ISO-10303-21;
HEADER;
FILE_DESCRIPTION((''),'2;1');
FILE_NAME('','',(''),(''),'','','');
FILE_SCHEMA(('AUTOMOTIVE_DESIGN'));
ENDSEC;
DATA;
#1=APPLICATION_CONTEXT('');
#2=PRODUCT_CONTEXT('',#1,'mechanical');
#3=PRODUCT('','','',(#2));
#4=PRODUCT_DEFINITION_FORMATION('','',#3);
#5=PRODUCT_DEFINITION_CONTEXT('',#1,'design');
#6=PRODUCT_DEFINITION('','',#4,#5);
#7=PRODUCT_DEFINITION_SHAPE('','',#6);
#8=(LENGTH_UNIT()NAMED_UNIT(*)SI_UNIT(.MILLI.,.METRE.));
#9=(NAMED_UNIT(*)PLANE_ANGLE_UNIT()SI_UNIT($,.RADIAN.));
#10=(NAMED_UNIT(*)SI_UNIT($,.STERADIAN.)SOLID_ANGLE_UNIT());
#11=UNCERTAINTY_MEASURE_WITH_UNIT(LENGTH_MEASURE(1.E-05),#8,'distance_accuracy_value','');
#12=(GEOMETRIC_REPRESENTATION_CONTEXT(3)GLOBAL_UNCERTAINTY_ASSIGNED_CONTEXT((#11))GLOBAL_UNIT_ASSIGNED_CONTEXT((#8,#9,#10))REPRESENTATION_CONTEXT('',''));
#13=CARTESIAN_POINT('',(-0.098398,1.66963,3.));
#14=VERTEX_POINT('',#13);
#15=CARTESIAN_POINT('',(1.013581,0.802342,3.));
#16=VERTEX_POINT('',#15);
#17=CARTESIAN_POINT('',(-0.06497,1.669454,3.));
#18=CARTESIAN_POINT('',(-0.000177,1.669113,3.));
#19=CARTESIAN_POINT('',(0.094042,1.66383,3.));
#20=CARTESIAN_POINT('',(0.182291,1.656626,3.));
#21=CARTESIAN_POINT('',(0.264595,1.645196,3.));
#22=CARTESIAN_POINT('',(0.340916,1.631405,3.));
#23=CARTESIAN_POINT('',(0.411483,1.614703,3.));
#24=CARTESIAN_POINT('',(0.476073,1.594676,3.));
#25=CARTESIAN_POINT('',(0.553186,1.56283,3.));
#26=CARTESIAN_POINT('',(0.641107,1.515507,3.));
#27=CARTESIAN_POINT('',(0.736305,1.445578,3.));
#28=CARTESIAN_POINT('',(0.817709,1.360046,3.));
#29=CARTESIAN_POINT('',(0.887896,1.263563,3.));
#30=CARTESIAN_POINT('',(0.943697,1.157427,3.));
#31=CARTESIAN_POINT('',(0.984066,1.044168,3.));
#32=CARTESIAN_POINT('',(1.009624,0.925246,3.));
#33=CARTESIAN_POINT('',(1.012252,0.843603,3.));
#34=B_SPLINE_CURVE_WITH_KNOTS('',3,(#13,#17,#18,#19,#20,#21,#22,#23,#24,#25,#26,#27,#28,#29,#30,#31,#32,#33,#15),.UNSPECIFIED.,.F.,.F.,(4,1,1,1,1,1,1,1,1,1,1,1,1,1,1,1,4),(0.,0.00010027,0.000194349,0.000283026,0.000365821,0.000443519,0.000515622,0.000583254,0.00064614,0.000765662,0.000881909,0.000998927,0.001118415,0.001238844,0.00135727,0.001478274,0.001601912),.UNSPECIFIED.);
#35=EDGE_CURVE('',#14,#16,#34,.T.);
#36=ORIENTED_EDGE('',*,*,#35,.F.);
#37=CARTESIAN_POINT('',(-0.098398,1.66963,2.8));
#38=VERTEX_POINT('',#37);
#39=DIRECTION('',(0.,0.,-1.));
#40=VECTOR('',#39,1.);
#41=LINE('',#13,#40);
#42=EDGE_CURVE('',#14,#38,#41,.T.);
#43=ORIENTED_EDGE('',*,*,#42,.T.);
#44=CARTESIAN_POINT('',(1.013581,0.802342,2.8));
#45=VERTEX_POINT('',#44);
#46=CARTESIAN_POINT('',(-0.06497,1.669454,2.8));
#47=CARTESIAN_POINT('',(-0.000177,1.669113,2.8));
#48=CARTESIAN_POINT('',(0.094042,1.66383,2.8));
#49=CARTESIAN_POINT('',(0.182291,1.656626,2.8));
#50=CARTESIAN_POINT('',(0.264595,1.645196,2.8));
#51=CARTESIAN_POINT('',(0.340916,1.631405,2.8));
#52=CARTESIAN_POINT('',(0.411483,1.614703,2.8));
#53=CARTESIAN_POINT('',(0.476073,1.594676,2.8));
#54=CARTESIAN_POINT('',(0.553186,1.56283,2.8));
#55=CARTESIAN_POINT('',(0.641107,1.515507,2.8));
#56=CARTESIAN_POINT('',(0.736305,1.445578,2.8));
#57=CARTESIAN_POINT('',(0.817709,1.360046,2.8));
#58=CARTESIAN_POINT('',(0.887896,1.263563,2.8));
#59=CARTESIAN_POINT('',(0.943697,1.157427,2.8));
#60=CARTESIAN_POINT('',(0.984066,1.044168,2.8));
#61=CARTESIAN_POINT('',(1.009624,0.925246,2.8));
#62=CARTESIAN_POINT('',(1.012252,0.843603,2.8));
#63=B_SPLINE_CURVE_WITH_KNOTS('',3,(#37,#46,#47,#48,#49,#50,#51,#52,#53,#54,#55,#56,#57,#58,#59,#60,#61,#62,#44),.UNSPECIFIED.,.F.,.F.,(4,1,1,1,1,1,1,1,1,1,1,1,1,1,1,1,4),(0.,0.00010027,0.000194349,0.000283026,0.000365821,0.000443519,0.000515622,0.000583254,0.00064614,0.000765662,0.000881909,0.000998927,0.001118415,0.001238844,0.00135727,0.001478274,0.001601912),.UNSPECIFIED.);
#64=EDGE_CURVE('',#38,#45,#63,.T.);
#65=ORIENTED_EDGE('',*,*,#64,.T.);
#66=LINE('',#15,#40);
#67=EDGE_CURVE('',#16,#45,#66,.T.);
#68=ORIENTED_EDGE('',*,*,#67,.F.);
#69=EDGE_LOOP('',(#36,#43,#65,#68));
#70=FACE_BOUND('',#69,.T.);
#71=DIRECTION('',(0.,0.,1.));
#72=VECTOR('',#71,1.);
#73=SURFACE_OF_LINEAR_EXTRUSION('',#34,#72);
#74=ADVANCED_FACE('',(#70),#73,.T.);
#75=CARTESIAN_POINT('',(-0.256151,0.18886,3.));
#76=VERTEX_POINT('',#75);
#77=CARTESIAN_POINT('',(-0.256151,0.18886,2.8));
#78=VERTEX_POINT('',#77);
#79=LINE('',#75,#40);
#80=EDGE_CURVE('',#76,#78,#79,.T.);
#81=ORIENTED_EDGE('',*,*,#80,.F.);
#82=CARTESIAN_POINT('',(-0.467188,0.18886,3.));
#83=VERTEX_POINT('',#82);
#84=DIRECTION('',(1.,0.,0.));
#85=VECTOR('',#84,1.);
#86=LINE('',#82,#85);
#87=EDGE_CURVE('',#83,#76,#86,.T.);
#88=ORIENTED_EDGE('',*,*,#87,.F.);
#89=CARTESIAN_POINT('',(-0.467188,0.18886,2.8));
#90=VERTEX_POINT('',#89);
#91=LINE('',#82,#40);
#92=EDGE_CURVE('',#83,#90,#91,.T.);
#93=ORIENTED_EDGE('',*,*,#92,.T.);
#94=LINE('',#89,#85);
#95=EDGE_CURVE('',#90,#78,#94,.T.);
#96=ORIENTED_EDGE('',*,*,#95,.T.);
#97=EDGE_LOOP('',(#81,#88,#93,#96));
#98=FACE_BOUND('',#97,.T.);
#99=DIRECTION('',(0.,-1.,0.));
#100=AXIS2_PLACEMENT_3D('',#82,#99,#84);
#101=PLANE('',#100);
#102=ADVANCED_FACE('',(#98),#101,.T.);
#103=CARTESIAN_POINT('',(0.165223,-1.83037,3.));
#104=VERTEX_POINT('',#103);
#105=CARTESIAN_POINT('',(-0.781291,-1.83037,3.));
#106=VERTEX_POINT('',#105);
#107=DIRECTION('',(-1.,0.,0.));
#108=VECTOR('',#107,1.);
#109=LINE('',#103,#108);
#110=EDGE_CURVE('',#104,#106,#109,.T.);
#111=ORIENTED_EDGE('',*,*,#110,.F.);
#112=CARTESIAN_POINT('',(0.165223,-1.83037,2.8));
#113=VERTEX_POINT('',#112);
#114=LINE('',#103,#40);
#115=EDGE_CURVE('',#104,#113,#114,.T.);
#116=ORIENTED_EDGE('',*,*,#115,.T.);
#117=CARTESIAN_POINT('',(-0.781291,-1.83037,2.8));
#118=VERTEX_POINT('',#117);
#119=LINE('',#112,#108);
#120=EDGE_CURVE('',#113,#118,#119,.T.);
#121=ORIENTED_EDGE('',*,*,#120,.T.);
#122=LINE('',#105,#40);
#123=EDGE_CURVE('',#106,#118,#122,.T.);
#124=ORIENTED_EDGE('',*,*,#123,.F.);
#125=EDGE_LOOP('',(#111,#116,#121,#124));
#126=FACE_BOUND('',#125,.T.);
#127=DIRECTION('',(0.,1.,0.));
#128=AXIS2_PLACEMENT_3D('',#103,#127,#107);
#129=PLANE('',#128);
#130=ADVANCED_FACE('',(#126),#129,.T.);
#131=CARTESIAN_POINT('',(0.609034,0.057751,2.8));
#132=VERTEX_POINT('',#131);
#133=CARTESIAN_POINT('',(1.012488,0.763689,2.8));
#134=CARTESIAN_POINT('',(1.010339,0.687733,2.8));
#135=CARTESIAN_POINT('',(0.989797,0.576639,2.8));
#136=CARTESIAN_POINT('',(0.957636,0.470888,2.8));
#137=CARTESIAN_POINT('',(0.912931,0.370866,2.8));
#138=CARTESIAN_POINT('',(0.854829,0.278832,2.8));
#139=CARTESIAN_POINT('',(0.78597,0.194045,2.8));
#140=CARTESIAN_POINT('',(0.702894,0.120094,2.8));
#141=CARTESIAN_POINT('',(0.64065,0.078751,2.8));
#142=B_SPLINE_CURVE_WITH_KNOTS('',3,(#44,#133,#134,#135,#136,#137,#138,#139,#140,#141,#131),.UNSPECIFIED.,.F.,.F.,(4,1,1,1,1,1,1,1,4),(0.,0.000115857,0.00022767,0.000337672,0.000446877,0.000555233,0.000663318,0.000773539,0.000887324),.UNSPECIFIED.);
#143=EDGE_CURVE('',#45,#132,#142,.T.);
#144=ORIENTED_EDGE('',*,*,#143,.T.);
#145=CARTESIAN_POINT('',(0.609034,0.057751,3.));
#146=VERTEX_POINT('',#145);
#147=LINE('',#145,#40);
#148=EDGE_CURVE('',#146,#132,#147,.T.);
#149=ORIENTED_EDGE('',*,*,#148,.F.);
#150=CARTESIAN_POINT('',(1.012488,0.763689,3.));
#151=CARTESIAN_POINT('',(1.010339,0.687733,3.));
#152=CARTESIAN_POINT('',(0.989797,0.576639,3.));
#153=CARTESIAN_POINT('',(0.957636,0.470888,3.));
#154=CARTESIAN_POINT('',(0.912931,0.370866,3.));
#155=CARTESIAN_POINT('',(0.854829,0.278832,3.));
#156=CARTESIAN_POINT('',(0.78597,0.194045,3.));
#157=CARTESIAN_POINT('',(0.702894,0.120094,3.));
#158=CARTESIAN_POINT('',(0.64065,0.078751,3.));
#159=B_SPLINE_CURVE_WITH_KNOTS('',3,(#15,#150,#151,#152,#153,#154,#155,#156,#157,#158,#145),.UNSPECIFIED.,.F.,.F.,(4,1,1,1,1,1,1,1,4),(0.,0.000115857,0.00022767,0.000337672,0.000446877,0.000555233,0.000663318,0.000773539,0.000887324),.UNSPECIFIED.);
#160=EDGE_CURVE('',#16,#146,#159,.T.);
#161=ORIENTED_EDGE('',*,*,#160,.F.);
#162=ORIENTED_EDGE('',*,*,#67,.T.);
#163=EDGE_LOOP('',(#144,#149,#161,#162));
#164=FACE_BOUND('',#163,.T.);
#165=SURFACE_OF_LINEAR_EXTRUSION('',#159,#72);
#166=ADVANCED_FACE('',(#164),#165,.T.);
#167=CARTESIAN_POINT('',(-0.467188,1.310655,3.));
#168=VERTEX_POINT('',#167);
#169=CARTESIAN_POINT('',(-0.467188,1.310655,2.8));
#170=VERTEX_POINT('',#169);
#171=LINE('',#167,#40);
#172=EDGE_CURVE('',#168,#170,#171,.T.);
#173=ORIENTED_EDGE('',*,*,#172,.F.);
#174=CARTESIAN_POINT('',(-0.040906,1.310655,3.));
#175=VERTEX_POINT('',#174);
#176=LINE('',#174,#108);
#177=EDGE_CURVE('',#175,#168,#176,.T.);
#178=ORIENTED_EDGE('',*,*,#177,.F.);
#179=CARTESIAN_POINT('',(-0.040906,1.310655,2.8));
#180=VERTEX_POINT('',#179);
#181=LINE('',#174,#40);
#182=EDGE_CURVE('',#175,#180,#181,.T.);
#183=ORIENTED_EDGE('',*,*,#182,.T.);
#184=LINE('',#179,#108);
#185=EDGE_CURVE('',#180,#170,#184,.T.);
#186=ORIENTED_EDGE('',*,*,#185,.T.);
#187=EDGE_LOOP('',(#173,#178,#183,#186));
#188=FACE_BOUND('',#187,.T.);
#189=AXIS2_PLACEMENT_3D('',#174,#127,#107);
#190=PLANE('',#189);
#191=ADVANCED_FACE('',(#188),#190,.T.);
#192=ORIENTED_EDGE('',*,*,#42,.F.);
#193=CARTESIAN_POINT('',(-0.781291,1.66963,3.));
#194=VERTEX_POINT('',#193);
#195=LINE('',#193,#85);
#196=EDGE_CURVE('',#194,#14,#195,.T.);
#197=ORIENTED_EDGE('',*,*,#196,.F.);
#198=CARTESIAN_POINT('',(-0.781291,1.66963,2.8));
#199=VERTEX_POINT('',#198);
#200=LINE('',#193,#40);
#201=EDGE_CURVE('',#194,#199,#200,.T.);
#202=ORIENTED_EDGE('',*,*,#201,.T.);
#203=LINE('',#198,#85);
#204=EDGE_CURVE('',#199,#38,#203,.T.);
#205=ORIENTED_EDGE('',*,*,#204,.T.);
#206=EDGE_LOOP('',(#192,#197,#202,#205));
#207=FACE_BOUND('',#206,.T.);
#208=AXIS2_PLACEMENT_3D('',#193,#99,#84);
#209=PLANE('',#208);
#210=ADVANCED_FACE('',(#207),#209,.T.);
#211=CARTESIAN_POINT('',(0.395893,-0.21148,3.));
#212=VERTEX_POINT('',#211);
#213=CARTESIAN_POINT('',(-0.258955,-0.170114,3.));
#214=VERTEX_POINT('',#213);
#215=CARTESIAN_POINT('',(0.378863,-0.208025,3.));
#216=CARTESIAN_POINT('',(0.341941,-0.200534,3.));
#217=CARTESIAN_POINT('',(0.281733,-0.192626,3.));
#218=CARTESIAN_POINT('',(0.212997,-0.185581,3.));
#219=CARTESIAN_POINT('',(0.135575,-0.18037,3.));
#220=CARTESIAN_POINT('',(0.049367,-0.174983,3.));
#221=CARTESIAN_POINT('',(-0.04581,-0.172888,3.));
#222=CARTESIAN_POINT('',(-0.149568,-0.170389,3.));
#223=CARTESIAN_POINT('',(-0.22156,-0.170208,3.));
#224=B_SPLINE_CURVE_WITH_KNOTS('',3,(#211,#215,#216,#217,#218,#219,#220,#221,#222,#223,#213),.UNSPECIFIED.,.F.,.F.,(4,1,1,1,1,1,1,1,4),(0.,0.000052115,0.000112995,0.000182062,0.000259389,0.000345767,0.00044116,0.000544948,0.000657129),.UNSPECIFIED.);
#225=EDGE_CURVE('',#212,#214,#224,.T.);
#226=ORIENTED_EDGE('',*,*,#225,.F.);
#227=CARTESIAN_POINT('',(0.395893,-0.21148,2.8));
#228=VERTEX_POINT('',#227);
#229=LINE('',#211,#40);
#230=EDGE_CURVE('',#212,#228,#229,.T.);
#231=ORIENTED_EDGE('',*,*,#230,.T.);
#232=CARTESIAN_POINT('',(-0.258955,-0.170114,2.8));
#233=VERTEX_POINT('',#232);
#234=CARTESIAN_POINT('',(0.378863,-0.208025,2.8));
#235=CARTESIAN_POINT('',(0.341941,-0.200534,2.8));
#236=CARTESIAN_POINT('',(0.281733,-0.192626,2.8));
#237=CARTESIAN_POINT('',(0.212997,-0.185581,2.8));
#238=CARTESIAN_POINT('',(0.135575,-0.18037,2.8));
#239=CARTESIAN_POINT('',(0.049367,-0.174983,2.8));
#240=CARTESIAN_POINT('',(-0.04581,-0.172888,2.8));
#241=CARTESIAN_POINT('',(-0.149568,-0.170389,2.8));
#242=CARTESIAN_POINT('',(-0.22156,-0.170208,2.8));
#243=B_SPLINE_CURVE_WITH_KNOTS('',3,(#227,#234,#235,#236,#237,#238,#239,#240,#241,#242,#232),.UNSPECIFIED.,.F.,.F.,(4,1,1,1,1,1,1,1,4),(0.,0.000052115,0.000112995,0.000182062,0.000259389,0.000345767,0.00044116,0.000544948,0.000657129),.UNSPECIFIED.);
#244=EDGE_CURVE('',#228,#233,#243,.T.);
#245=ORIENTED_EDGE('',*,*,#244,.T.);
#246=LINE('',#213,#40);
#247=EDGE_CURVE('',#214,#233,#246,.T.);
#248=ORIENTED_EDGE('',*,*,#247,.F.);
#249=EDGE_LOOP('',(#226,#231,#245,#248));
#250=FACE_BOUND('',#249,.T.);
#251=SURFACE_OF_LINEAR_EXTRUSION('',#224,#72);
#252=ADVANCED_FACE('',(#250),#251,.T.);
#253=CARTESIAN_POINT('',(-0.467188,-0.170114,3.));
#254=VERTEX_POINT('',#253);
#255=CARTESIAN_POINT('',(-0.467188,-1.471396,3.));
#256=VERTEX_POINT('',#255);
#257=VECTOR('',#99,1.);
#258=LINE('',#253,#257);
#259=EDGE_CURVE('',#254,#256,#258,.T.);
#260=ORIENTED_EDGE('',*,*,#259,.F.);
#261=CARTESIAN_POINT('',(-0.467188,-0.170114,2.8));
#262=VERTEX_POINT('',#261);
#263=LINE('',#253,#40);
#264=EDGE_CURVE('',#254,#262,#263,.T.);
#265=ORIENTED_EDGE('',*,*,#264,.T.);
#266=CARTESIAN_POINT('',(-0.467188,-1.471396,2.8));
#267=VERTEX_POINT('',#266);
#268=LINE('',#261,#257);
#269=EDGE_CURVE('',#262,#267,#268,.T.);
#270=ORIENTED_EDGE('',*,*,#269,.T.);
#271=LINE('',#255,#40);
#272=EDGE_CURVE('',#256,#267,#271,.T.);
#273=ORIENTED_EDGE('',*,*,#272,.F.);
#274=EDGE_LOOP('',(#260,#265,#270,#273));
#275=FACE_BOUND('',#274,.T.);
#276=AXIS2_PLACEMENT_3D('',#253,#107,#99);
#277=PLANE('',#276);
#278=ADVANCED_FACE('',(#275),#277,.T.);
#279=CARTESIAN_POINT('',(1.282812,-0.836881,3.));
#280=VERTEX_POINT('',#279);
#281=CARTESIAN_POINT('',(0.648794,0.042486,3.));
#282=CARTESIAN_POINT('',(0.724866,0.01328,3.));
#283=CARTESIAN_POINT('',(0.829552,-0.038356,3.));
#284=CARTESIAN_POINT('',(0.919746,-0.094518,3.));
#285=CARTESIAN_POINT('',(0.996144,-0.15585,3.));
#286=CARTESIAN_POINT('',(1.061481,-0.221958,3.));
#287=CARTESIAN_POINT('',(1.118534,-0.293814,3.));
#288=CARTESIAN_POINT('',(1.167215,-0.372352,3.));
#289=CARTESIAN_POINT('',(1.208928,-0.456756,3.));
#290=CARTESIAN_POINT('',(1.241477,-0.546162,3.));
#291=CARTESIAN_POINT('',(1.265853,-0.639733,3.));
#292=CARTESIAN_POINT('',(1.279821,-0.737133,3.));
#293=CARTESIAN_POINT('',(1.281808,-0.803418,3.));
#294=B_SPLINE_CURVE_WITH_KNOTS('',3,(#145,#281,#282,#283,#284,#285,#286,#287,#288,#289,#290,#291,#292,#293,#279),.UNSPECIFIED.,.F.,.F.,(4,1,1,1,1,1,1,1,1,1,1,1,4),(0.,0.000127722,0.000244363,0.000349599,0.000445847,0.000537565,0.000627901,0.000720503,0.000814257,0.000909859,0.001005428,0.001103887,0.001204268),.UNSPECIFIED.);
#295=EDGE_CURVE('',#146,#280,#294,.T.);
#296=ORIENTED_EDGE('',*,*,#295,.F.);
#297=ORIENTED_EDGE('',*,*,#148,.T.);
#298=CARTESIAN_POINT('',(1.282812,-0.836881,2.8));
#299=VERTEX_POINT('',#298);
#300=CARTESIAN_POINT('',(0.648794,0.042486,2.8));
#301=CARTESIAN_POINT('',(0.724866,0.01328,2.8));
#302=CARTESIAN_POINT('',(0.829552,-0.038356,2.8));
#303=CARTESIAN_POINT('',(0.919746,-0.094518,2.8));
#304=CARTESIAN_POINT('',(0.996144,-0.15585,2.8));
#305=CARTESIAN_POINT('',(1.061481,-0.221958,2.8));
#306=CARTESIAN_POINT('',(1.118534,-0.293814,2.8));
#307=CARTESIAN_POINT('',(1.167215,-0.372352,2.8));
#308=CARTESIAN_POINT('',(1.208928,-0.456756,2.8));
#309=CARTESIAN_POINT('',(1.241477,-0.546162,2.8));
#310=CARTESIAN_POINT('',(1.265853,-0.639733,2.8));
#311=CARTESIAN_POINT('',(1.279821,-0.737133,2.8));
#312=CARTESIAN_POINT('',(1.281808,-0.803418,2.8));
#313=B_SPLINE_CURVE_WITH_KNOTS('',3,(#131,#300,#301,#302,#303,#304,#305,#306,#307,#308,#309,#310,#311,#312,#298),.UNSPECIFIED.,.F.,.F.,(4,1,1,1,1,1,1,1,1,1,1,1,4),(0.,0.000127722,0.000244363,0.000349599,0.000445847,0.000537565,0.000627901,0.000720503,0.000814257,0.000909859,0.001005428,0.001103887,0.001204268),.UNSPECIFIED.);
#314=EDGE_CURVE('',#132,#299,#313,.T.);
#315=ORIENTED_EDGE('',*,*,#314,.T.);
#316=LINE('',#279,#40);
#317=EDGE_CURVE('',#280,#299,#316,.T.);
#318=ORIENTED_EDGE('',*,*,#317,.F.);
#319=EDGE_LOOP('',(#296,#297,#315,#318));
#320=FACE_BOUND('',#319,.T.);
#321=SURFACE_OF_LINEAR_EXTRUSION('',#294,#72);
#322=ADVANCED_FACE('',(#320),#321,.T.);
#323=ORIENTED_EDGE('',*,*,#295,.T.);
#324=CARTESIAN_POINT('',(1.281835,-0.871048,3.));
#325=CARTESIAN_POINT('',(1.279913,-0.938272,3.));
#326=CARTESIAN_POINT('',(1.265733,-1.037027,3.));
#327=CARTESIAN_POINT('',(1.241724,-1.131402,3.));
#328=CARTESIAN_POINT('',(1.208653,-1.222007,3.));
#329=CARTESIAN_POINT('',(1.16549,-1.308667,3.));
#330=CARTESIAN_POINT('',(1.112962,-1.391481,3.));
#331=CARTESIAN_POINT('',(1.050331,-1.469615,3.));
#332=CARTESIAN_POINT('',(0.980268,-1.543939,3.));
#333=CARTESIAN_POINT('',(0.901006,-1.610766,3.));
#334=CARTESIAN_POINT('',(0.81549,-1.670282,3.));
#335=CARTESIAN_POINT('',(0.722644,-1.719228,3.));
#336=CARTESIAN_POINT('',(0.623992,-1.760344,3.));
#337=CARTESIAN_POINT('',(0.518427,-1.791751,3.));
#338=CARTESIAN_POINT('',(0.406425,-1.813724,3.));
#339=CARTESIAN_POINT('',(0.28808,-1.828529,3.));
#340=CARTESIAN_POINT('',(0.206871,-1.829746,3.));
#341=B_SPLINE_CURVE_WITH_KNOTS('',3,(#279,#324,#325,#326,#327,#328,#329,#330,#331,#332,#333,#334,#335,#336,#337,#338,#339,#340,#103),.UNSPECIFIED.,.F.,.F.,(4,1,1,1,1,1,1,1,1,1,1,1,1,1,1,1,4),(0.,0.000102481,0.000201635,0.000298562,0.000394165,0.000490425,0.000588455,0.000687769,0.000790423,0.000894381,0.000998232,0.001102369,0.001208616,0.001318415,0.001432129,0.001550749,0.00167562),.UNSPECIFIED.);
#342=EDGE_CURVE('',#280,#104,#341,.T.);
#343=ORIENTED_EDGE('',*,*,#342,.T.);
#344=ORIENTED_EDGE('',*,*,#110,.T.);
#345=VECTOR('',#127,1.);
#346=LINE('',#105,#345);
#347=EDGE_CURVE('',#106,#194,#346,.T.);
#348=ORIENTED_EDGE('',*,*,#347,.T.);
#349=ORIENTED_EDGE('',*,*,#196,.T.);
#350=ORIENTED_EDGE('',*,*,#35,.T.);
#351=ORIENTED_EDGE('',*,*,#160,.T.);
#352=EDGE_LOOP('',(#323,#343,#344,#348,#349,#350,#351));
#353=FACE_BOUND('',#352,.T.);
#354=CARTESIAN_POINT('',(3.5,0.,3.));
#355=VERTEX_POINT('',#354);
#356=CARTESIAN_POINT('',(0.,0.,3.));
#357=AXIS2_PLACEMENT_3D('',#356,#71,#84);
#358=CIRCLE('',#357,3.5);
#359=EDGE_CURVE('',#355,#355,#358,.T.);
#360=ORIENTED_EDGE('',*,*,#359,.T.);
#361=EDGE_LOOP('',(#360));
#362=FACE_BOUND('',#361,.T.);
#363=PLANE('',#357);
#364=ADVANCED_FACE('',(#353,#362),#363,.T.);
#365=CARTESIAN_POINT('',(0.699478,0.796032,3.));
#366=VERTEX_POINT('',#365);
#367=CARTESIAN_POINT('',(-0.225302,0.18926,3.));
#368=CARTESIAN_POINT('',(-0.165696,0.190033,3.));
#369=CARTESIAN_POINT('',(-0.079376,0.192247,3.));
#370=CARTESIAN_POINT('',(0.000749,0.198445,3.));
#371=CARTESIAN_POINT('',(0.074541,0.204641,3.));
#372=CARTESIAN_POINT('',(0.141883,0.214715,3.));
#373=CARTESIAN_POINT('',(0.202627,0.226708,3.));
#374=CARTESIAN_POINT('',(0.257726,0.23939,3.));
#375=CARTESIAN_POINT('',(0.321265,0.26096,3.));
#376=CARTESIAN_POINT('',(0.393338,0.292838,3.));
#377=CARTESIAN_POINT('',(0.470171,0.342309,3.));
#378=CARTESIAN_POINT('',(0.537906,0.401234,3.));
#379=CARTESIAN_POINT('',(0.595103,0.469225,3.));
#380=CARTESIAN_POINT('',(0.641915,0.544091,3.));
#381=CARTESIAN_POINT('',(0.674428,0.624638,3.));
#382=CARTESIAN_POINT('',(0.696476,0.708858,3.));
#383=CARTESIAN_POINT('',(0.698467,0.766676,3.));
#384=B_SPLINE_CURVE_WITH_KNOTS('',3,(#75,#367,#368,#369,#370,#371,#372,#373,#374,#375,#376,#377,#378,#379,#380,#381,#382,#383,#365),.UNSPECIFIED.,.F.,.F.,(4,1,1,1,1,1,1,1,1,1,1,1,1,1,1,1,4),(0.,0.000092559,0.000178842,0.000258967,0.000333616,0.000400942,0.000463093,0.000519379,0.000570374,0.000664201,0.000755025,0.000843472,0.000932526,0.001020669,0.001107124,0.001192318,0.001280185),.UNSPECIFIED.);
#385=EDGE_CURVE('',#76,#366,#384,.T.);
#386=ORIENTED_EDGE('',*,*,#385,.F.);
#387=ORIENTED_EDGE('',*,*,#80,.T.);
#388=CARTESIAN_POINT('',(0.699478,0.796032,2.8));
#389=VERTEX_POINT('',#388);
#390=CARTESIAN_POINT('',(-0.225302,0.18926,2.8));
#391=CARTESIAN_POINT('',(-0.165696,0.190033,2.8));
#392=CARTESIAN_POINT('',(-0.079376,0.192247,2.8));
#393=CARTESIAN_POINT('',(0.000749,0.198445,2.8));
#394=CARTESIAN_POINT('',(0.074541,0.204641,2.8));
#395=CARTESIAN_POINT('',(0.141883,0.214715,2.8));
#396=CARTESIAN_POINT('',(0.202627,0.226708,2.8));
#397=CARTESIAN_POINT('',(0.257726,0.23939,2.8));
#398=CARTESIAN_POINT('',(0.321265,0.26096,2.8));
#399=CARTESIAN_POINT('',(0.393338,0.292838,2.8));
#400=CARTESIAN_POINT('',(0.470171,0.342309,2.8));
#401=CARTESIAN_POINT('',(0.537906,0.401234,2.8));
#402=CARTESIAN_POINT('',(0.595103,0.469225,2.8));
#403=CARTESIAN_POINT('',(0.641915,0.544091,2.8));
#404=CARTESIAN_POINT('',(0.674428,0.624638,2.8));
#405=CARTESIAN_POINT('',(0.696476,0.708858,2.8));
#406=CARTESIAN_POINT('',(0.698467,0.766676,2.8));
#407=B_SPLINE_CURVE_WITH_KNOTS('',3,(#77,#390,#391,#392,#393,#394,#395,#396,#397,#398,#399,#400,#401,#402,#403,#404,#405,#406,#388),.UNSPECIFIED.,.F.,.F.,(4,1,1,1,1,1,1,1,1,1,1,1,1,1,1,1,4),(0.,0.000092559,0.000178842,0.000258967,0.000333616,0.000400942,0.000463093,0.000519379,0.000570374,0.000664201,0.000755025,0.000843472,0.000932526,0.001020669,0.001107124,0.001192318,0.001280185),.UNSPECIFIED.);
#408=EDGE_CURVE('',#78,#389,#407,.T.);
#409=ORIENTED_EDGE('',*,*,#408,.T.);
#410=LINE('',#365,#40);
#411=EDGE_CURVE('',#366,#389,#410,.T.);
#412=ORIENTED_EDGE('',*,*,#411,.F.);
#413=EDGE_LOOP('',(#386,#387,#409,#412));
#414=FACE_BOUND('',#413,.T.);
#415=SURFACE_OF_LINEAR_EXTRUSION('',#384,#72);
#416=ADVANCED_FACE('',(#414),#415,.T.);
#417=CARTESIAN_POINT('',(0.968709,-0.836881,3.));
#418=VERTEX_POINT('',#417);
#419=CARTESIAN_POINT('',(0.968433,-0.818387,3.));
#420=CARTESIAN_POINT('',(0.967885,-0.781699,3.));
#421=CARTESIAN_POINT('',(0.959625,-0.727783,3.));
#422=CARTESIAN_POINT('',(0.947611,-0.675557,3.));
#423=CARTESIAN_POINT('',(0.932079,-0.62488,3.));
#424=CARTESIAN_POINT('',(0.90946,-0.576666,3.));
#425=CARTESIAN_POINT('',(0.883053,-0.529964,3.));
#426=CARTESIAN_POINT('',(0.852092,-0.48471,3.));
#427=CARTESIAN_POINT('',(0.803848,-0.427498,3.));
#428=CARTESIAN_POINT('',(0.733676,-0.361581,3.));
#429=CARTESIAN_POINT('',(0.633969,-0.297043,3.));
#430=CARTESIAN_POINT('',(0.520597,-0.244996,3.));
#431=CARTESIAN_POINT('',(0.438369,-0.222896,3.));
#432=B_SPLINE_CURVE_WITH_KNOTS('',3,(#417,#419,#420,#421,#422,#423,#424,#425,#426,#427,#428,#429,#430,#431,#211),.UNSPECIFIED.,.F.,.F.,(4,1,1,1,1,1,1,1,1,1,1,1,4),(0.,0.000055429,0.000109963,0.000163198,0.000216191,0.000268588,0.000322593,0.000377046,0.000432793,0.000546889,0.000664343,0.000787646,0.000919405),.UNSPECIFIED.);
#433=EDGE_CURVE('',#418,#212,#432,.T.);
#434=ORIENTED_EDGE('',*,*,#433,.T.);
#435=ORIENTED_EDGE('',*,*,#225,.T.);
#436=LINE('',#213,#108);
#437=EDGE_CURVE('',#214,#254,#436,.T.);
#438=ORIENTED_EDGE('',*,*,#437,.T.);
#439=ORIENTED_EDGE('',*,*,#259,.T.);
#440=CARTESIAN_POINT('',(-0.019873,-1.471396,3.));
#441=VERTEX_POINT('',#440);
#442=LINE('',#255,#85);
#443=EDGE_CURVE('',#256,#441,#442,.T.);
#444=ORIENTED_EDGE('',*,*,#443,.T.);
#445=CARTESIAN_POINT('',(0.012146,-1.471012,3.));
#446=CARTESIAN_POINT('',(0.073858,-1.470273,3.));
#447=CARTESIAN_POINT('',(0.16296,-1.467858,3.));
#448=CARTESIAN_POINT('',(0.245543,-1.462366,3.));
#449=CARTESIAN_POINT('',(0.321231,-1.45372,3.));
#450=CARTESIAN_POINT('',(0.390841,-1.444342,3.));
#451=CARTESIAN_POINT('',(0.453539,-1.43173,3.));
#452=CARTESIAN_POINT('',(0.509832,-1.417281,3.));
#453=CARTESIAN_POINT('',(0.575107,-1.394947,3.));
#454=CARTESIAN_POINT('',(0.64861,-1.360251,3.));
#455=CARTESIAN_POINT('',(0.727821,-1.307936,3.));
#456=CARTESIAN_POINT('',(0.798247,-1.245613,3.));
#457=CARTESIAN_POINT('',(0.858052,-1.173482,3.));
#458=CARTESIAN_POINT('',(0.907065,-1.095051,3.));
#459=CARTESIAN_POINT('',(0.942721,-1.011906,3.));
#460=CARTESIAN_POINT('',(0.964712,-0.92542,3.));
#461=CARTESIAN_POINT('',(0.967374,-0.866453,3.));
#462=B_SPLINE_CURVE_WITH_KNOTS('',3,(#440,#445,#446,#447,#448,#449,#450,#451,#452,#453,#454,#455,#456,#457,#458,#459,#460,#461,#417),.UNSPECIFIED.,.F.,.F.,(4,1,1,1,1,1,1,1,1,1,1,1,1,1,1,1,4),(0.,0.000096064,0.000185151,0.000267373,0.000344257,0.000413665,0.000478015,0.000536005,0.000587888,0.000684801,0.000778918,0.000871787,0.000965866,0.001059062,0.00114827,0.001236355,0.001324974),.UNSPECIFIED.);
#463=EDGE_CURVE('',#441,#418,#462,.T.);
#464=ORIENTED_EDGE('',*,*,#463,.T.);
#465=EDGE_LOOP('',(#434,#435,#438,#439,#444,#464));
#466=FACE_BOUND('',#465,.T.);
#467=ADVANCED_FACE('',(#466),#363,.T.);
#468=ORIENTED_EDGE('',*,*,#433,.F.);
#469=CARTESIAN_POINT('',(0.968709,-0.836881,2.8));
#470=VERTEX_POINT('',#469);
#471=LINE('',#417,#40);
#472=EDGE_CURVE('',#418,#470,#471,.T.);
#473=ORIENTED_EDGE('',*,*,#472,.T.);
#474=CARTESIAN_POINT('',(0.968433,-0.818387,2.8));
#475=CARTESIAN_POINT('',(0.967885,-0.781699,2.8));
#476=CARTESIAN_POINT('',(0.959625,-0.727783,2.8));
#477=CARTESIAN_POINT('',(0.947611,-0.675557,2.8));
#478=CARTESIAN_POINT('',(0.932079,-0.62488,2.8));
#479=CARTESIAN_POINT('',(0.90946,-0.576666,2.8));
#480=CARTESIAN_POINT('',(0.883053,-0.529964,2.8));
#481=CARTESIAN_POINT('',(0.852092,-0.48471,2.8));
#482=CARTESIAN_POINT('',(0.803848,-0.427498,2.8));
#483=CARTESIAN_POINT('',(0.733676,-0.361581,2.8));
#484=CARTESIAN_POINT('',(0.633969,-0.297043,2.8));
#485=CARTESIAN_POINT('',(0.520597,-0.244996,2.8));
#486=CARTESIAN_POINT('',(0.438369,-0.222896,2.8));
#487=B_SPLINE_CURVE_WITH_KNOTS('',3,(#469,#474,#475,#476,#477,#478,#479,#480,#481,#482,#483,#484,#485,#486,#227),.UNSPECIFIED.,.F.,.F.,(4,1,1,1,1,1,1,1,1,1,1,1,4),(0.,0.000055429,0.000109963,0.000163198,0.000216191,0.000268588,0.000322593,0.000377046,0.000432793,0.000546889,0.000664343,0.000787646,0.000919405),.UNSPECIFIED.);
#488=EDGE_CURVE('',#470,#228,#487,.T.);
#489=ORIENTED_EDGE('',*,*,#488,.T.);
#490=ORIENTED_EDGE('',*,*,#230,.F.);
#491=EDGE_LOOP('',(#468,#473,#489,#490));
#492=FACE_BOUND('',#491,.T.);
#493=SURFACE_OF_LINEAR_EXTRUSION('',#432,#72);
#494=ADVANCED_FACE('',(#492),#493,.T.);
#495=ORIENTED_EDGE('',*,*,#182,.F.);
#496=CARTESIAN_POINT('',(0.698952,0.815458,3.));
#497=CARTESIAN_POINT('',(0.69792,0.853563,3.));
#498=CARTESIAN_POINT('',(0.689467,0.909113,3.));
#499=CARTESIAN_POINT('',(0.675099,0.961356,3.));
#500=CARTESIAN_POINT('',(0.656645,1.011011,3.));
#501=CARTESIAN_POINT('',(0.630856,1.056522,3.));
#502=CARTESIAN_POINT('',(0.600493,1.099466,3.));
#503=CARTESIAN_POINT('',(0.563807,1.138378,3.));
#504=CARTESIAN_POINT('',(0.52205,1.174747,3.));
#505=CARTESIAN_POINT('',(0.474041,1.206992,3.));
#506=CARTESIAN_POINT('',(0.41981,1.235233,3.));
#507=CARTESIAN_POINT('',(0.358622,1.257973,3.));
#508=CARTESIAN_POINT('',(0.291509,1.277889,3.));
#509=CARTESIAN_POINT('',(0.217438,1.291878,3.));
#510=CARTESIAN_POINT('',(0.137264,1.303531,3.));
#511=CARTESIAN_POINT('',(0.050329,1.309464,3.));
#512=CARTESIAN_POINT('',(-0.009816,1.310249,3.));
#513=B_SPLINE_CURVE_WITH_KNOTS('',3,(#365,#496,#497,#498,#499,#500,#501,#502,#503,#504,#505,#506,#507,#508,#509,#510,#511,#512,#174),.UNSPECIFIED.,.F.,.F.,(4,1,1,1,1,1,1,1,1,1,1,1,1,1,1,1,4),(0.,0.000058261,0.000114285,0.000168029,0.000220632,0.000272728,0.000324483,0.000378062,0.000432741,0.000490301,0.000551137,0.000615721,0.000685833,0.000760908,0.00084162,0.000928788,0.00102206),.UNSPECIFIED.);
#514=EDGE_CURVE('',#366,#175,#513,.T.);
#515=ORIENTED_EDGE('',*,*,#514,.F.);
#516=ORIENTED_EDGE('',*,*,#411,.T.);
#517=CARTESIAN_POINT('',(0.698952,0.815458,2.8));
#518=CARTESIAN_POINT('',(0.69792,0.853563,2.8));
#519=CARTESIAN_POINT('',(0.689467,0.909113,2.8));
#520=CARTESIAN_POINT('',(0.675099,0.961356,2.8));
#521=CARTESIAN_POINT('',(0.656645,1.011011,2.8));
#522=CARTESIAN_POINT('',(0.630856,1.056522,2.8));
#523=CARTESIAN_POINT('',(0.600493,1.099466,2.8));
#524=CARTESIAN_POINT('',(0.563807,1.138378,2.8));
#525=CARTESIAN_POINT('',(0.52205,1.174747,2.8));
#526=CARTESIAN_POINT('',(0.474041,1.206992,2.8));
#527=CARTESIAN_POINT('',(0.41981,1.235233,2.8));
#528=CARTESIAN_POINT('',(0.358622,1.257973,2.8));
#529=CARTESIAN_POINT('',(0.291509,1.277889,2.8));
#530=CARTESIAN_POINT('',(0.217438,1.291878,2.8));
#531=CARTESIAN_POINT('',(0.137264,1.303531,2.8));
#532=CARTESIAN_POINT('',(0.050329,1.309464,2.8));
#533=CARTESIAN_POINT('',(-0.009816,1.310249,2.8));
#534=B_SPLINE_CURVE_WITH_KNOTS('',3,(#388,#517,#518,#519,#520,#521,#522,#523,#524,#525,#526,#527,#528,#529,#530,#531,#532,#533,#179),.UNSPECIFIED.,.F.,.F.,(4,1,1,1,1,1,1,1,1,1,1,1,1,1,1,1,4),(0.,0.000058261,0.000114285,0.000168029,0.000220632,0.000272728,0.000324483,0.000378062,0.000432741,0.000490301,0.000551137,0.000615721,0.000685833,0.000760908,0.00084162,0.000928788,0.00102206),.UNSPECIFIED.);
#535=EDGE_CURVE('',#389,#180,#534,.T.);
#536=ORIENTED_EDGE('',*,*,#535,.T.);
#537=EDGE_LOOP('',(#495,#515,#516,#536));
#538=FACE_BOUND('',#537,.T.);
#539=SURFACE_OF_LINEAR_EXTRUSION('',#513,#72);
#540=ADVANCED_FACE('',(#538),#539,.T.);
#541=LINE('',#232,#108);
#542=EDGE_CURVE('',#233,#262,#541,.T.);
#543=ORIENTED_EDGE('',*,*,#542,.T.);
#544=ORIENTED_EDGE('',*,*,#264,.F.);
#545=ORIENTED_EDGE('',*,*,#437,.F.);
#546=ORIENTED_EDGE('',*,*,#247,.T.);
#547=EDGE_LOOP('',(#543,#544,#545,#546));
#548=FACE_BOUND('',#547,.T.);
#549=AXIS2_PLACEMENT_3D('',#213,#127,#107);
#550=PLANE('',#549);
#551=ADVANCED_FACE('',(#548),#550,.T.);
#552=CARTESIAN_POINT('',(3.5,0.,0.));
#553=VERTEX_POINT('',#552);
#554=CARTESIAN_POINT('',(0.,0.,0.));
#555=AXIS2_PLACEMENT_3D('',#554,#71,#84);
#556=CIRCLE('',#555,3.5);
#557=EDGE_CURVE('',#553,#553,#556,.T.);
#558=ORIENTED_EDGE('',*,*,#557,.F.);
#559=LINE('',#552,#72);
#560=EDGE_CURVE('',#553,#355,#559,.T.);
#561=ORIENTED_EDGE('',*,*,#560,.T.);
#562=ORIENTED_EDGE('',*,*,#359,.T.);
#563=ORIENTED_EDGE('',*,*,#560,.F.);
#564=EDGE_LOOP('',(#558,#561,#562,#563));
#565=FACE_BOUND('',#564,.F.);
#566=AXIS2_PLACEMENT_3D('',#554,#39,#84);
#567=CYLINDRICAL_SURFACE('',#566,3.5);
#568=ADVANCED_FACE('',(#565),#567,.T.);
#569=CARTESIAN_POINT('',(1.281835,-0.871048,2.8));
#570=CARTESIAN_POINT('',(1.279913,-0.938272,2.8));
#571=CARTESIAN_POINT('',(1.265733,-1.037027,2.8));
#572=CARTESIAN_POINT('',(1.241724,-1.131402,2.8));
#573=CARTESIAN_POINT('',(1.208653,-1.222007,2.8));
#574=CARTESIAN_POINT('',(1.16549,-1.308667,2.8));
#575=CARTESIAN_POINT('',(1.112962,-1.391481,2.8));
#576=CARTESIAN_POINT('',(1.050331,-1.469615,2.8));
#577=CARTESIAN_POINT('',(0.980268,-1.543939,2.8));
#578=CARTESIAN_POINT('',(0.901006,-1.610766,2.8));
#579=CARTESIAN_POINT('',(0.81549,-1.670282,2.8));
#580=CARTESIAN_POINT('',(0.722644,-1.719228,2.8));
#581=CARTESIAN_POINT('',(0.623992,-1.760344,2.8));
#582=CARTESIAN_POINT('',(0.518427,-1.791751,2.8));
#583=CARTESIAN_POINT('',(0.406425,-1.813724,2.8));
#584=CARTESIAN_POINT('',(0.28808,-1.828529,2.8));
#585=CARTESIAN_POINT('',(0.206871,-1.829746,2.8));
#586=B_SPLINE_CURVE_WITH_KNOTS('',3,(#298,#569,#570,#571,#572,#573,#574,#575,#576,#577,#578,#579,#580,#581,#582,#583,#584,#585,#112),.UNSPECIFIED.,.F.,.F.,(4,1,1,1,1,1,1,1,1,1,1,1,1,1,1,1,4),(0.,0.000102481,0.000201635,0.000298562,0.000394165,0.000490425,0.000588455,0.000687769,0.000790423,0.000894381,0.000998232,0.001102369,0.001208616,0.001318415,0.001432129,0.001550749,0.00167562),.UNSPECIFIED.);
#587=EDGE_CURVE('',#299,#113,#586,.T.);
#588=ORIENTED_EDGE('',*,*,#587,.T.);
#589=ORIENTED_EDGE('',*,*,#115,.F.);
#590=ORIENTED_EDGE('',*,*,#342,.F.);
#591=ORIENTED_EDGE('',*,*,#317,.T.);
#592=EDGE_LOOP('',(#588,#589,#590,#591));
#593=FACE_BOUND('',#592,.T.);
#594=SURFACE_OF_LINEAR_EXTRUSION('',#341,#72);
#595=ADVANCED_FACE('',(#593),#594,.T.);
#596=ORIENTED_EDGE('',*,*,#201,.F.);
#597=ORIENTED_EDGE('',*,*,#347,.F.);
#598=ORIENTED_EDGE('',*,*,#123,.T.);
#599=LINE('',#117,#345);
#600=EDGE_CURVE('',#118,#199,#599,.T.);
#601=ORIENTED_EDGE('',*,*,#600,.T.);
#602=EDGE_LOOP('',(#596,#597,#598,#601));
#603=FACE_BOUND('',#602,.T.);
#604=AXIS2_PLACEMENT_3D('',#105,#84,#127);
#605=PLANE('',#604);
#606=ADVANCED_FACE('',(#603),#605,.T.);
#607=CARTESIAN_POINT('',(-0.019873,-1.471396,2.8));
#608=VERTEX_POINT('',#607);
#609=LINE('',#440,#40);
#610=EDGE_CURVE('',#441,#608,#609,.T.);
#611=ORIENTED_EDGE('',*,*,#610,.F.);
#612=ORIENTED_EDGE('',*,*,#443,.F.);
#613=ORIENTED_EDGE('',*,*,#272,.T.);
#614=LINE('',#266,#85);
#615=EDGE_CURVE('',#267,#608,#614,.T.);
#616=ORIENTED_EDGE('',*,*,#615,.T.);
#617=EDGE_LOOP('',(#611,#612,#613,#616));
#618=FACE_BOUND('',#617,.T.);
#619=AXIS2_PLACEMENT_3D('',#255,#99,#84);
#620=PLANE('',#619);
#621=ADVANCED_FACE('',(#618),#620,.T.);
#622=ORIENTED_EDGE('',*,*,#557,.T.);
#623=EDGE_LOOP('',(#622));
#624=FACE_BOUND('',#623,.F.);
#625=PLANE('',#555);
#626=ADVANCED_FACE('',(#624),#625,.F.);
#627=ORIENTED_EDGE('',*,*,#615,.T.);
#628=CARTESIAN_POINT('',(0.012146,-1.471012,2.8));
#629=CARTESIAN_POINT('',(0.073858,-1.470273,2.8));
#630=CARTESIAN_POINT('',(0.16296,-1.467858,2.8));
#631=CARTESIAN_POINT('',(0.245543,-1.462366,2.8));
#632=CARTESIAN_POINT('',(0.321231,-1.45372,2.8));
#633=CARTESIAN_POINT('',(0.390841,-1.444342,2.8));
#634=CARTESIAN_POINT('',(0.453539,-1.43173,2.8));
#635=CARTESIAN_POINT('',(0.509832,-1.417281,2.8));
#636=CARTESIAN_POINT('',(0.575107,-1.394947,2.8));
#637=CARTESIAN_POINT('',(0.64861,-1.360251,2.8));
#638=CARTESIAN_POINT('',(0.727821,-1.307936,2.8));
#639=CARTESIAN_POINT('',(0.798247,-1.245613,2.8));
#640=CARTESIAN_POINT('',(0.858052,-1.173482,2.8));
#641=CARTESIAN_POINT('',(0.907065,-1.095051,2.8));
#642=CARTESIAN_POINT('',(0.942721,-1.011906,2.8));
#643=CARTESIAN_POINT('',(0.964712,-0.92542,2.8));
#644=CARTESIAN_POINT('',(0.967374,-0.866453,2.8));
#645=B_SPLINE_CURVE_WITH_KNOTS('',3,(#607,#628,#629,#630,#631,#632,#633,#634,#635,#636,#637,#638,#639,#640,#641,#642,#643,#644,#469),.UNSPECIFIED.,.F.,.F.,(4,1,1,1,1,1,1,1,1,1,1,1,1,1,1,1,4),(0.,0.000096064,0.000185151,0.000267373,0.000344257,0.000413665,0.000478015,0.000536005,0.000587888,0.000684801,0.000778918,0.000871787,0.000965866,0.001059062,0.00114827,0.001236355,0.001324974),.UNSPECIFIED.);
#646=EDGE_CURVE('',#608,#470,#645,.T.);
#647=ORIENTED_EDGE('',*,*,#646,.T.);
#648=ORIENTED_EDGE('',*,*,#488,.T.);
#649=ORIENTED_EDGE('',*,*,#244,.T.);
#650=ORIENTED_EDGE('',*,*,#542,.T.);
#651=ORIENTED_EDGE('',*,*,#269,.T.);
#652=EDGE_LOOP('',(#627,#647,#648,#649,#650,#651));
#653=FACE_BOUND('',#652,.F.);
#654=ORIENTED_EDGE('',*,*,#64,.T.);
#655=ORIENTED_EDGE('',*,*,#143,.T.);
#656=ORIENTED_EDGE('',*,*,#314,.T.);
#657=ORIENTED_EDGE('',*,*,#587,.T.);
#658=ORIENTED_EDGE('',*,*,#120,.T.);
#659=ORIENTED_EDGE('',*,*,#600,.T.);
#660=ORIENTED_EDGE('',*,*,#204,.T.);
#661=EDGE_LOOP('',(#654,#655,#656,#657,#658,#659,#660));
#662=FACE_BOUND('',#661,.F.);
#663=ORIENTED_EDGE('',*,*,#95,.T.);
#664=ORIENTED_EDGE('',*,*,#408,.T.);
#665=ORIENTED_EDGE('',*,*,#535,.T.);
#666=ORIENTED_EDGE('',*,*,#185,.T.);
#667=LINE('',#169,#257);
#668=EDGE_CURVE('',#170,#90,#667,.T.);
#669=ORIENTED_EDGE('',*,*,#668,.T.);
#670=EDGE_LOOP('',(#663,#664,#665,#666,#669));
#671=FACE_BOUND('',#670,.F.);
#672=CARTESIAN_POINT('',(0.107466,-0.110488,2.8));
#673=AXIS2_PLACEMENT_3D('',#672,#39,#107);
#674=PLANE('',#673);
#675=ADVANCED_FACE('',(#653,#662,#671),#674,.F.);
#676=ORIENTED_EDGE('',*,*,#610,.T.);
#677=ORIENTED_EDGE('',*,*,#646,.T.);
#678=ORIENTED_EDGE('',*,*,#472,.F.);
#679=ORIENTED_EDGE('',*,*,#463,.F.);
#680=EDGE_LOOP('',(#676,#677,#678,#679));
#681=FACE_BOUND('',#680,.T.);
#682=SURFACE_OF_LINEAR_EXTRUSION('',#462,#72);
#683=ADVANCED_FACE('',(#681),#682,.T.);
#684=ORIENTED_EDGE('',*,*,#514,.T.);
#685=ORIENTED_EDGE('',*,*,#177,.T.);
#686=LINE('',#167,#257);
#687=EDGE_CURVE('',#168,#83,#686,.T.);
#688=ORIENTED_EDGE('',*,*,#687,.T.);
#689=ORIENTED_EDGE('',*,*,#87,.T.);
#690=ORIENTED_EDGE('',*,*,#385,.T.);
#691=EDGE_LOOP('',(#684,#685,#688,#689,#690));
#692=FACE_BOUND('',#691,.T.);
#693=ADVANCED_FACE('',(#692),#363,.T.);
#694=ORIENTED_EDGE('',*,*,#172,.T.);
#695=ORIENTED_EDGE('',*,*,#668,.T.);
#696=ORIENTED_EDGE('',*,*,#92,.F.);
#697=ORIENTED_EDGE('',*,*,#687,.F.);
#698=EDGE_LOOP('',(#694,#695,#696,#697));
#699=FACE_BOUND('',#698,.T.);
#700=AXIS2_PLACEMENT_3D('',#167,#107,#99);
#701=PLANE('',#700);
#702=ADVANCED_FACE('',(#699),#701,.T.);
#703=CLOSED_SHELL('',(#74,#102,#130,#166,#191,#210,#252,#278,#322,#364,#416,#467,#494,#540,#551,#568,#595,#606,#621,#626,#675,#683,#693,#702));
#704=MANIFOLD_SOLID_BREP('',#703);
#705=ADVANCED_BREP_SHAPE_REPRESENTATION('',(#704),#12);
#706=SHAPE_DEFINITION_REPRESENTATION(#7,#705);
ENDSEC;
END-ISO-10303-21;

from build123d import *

# Parameters (mm, degrees)
SKETCH1_R           = 3.5
BOSS_EXTRUDE1_DEPTH = 3
CUT_EXTRUDE1_DEPTH  = 0.2


with BuildPart() as part:
    # Sketch1 → Boss-Extrude1 (new body)
    with BuildSketch(Plane.XY):
        Circle(SKETCH1_R)
    extrude(amount=BOSS_EXTRUDE1_DEPTH)

    # Sketch2 → Cut-Extrude1 (cut)
    with BuildSketch(Plane.XY.offset(3)):
        with BuildLine():
            Line((-0.781290974, 1.669629579), (-0.098398346, 1.669629579))
            add(Edge.make_bspline(
                [(-0.098398346, 1.669629579), (-0.064969868, 1.669453828), (-0.000177158, 1.66911318), (0.094042284, 1.663830049), (0.182291095, 1.656626379), (0.264594867, 1.645196287), (0.34091557, 1.63140451), (0.411483207, 1.614702693), (0.476073379, 1.59467608), (0.553186116, 1.562829799), (0.641106776, 1.51550663), (0.736305169, 1.445578065), (0.817709408, 1.360045602), (0.887895726, 1.263562947), (0.943696845, 1.157427175), (0.984066143, 1.044167986), (1.009624018, 0.925246244), (1.012252452, 0.843603066), (1.013580821, 0.802341919)],
                knots=[0, 0, 0, 0, 0.00010027, 0.000194349, 0.000283026, 0.000365821, 0.000443519, 0.000515622, 0.000583254, 0.00064614, 0.000765662, 0.000881909, 0.000998927, 0.001118415, 0.001238844, 0.00135727, 0.001478274, 0.001601912, 0.001601912, 0.001601912, 0.001601912], degree=3))
            add(Edge.make_bspline(
                [(1.013580821, 0.802341919), (1.012487602, 0.763689363), (1.010339325, 0.687733446), (0.989796565, 0.576639337), (0.957635897, 0.470888118), (0.912930648, 0.370865732), (0.854828652, 0.278832119), (0.785970333, 0.194044853), (0.70289353, 0.120093796), (0.64065029, 0.078750894), (0.609033545, 0.057750572)],
                knots=[0, 0, 0, 0, 0.000115857, 0.00022767, 0.000337672, 0.000446877, 0.000555233, 0.000663318, 0.000773539, 0.000887324, 0.000887324, 0.000887324, 0.000887324], degree=3))
            add(Edge.make_bspline(
                [(0.609033545, 0.057750572), (0.648793972, 0.042485573), (0.72486552, 0.013279849), (0.829551532, -0.038355615), (0.919746377, -0.094517725), (0.996143523, -0.155849575), (1.061481178, -0.221958386), (1.11853412, -0.293813501), (1.167215494, -0.372352258), (1.208928417, -0.456755794), (1.241477174, -0.546162262), (1.265853078, -0.639733038), (1.279820527, -0.737132593), (1.281808168, -0.803417973), (1.28281159, -0.836880838)],
                knots=[0, 0, 0, 0, 0.000127722, 0.000244363, 0.000349599, 0.000445847, 0.000537565, 0.000627901, 0.000720503, 0.000814257, 0.000909859, 0.001005428, 0.001103887, 0.001204268, 0.001204268, 0.001204268, 0.001204268], degree=3))
            add(Edge.make_bspline(
                [(1.28281159, -0.836880838), (1.281834744, -0.87104771), (1.279912772, -0.938271988), (1.2657328, -1.037027123), (1.241723693, -1.131402069), (1.208652547, -1.222007252), (1.165490232, -1.308667386), (1.112962268, -1.39148065), (1.050330704, -1.469614981), (0.980267835, -1.543938604), (0.90100569, -1.610766391), (0.815489935, -1.670282098), (0.722643615, -1.71922816), (0.623991621, -1.760344182), (0.518427305, -1.79175138), (0.406424697, -1.813723954), (0.288080396, -1.828528991), (0.206870644, -1.829746196), (0.165223449, -1.830370421)],
                knots=[0, 0, 0, 0, 0.000102481, 0.000201635, 0.000298562, 0.000394165, 0.000490425, 0.000588455, 0.000687769, 0.000790423, 0.000894381, 0.000998232, 0.001102369, 0.001208616, 0.001318415, 0.001432129, 0.001550749, 0.00167562, 0.00167562, 0.00167562, 0.00167562], degree=3))
            Line((0.165223449, -1.830370421), (-0.781290974, -1.830370421))
            Line((-0.781290974, -1.830370421), (-0.781290974, 1.669629579))
        make_face()
        with BuildLine():
            Line((-0.46718841, 1.31065522), (-0.46718841, 0.188860348))
            Line((-0.46718841, 0.188860348), (-0.25615075, 0.188860348))
            add(Edge.make_bspline(
                [(-0.25615075, 0.188860348), (-0.225301955, 0.189260271), (-0.165695795, 0.190033004), (-0.079375899, 0.192246521), (0.000749119, 0.198444564), (0.074540952, 0.204640826), (0.141883396, 0.214715414), (0.202627258, 0.226707537), (0.257725855, 0.239390442), (0.3212654, 0.260959929), (0.393338349, 0.292837604), (0.470171453, 0.34230944), (0.537905923, 0.401233793), (0.59510311, 0.469224755), (0.641914581, 0.544090941), (0.674428296, 0.624637821), (0.69647558, 0.708857953), (0.698467112, 0.766676206), (0.699478256, 0.796031822)],
                knots=[0, 0, 0, 0, 9.2559e-05, 0.000178842, 0.000258967, 0.000333616, 0.000400942, 0.000463093, 0.000519379, 0.000570374, 0.000664201, 0.000755025, 0.000843472, 0.000932526, 0.001020669, 0.001107124, 0.001192318, 0.001280185, 0.001280185, 0.001280185, 0.001280185], degree=3))
            add(Edge.make_bspline(
                [(0.699478256, 0.796031822), (0.698952076, 0.815457594), (0.697919916, 0.853563366), (0.689466614, 0.90911272), (0.675099039, 0.961356473), (0.656644746, 1.011010583), (0.630856057, 1.056522433), (0.600492594, 1.099465629), (0.563806904, 1.138377747), (0.522049591, 1.174747246), (0.474040968, 1.206991774), (0.419809676, 1.235232537), (0.358621999, 1.257973313), (0.291509144, 1.277889466), (0.217438057, 1.29187776), (0.137263503, 1.303531147), (0.050328784, 1.309463889), (-0.009816318, 1.310249252), (-0.040906359, 1.31065522)],
                knots=[0, 0, 0, 0, 5.8261e-05, 0.000114285, 0.000168029, 0.000220632, 0.000272728, 0.000324483, 0.000378062, 0.000432741, 0.000490301, 0.000551137, 0.000615721, 0.000685833, 0.000760908, 0.00084162, 0.000928788, 0.00102206, 0.00102206, 0.00102206, 0.00102206], degree=3))
            Line((-0.040906359, 1.31065522), (-0.46718841, 1.31065522))
        make_face(mode=Mode.SUBTRACT)
        with BuildLine():
            Line((-0.46718841, -0.170114011), (-0.46718841, -1.471396062))
            Line((-0.46718841, -1.471396062), (-0.019872705, -1.471396062))
            add(Edge.make_bspline(
                [(-0.019872705, -1.471396062), (0.012146221, -1.471012315), (0.073858479, -1.470272692), (0.16295971, -1.467858138), (0.245542813, -1.462365862), (0.321230949, -1.453720012), (0.390841402, -1.444341563), (0.453539105, -1.431730282), (0.509832298, -1.417281322), (0.575106606, -1.39494715), (0.648610114, -1.360250679), (0.727820971, -1.307936452), (0.798247189, -1.245613144), (0.858052448, -1.17348223), (0.907065436, -1.095050903), (0.942720892, -1.011905553), (0.964711748, -0.925420026), (0.967373918, -0.866453313), (0.968709026, -0.836880838)],
                knots=[0, 0, 0, 0, 9.6064e-05, 0.000185151, 0.000267373, 0.000344257, 0.000413665, 0.000478015, 0.000536005, 0.000587888, 0.000684801, 0.000778918, 0.000871787, 0.000965866, 0.001059062, 0.00114827, 0.001236355, 0.001324974, 0.001324974, 0.001324974, 0.001324974], degree=3))
            add(Edge.make_bspline(
                [(0.968709026, -0.836880838), (0.968432921, -0.818387497), (0.967885166, -0.781699116), (0.959624551, -0.727783296), (0.947610682, -0.675557423), (0.932079248, -0.624879683), (0.909459781, -0.576666306), (0.883053236, -0.529963747), (0.852091834, -0.484710267), (0.803847668, -0.427498014), (0.733675683, -0.361581001), (0.633968908, -0.297043499), (0.52059661, -0.244995692), (0.438369117, -0.222896215), (0.395892519, -0.211480197)],
                knots=[0, 0, 0, 0, 5.5429e-05, 0.000109963, 0.000163198, 0.000216191, 0.000268588, 0.000322593, 0.000377046, 0.000432793, 0.000546889, 0.000664343, 0.000787646, 0.000919405, 0.000919405, 0.000919405, 0.000919405], degree=3))
            add(Edge.make_bspline(
                [(0.395892519, -0.211480197), (0.378863423, -0.208025113), (0.341940831, -0.200533778), (0.281733251, -0.192626075), (0.212997382, -0.185581015), (0.135574504, -0.180369857), (0.049366663, -0.174983314), (-0.045810255, -0.172888493), (-0.14956757, -0.170389233), (-0.221559942, -0.170208098), (-0.258955237, -0.170114011)],
                knots=[0, 0, 0, 0, 5.2115e-05, 0.000112995, 0.000182062, 0.000259389, 0.000345767, 0.00044116, 0.000544948, 0.000657129, 0.000657129, 0.000657129, 0.000657129], degree=3))
            Line((-0.258955237, -0.170114011), (-0.46718841, -0.170114011))
        make_face(mode=Mode.SUBTRACT)
    extrude(amount=-CUT_EXTRUDE1_DEPTH, mode=Mode.SUBTRACT)


solid = part.part
